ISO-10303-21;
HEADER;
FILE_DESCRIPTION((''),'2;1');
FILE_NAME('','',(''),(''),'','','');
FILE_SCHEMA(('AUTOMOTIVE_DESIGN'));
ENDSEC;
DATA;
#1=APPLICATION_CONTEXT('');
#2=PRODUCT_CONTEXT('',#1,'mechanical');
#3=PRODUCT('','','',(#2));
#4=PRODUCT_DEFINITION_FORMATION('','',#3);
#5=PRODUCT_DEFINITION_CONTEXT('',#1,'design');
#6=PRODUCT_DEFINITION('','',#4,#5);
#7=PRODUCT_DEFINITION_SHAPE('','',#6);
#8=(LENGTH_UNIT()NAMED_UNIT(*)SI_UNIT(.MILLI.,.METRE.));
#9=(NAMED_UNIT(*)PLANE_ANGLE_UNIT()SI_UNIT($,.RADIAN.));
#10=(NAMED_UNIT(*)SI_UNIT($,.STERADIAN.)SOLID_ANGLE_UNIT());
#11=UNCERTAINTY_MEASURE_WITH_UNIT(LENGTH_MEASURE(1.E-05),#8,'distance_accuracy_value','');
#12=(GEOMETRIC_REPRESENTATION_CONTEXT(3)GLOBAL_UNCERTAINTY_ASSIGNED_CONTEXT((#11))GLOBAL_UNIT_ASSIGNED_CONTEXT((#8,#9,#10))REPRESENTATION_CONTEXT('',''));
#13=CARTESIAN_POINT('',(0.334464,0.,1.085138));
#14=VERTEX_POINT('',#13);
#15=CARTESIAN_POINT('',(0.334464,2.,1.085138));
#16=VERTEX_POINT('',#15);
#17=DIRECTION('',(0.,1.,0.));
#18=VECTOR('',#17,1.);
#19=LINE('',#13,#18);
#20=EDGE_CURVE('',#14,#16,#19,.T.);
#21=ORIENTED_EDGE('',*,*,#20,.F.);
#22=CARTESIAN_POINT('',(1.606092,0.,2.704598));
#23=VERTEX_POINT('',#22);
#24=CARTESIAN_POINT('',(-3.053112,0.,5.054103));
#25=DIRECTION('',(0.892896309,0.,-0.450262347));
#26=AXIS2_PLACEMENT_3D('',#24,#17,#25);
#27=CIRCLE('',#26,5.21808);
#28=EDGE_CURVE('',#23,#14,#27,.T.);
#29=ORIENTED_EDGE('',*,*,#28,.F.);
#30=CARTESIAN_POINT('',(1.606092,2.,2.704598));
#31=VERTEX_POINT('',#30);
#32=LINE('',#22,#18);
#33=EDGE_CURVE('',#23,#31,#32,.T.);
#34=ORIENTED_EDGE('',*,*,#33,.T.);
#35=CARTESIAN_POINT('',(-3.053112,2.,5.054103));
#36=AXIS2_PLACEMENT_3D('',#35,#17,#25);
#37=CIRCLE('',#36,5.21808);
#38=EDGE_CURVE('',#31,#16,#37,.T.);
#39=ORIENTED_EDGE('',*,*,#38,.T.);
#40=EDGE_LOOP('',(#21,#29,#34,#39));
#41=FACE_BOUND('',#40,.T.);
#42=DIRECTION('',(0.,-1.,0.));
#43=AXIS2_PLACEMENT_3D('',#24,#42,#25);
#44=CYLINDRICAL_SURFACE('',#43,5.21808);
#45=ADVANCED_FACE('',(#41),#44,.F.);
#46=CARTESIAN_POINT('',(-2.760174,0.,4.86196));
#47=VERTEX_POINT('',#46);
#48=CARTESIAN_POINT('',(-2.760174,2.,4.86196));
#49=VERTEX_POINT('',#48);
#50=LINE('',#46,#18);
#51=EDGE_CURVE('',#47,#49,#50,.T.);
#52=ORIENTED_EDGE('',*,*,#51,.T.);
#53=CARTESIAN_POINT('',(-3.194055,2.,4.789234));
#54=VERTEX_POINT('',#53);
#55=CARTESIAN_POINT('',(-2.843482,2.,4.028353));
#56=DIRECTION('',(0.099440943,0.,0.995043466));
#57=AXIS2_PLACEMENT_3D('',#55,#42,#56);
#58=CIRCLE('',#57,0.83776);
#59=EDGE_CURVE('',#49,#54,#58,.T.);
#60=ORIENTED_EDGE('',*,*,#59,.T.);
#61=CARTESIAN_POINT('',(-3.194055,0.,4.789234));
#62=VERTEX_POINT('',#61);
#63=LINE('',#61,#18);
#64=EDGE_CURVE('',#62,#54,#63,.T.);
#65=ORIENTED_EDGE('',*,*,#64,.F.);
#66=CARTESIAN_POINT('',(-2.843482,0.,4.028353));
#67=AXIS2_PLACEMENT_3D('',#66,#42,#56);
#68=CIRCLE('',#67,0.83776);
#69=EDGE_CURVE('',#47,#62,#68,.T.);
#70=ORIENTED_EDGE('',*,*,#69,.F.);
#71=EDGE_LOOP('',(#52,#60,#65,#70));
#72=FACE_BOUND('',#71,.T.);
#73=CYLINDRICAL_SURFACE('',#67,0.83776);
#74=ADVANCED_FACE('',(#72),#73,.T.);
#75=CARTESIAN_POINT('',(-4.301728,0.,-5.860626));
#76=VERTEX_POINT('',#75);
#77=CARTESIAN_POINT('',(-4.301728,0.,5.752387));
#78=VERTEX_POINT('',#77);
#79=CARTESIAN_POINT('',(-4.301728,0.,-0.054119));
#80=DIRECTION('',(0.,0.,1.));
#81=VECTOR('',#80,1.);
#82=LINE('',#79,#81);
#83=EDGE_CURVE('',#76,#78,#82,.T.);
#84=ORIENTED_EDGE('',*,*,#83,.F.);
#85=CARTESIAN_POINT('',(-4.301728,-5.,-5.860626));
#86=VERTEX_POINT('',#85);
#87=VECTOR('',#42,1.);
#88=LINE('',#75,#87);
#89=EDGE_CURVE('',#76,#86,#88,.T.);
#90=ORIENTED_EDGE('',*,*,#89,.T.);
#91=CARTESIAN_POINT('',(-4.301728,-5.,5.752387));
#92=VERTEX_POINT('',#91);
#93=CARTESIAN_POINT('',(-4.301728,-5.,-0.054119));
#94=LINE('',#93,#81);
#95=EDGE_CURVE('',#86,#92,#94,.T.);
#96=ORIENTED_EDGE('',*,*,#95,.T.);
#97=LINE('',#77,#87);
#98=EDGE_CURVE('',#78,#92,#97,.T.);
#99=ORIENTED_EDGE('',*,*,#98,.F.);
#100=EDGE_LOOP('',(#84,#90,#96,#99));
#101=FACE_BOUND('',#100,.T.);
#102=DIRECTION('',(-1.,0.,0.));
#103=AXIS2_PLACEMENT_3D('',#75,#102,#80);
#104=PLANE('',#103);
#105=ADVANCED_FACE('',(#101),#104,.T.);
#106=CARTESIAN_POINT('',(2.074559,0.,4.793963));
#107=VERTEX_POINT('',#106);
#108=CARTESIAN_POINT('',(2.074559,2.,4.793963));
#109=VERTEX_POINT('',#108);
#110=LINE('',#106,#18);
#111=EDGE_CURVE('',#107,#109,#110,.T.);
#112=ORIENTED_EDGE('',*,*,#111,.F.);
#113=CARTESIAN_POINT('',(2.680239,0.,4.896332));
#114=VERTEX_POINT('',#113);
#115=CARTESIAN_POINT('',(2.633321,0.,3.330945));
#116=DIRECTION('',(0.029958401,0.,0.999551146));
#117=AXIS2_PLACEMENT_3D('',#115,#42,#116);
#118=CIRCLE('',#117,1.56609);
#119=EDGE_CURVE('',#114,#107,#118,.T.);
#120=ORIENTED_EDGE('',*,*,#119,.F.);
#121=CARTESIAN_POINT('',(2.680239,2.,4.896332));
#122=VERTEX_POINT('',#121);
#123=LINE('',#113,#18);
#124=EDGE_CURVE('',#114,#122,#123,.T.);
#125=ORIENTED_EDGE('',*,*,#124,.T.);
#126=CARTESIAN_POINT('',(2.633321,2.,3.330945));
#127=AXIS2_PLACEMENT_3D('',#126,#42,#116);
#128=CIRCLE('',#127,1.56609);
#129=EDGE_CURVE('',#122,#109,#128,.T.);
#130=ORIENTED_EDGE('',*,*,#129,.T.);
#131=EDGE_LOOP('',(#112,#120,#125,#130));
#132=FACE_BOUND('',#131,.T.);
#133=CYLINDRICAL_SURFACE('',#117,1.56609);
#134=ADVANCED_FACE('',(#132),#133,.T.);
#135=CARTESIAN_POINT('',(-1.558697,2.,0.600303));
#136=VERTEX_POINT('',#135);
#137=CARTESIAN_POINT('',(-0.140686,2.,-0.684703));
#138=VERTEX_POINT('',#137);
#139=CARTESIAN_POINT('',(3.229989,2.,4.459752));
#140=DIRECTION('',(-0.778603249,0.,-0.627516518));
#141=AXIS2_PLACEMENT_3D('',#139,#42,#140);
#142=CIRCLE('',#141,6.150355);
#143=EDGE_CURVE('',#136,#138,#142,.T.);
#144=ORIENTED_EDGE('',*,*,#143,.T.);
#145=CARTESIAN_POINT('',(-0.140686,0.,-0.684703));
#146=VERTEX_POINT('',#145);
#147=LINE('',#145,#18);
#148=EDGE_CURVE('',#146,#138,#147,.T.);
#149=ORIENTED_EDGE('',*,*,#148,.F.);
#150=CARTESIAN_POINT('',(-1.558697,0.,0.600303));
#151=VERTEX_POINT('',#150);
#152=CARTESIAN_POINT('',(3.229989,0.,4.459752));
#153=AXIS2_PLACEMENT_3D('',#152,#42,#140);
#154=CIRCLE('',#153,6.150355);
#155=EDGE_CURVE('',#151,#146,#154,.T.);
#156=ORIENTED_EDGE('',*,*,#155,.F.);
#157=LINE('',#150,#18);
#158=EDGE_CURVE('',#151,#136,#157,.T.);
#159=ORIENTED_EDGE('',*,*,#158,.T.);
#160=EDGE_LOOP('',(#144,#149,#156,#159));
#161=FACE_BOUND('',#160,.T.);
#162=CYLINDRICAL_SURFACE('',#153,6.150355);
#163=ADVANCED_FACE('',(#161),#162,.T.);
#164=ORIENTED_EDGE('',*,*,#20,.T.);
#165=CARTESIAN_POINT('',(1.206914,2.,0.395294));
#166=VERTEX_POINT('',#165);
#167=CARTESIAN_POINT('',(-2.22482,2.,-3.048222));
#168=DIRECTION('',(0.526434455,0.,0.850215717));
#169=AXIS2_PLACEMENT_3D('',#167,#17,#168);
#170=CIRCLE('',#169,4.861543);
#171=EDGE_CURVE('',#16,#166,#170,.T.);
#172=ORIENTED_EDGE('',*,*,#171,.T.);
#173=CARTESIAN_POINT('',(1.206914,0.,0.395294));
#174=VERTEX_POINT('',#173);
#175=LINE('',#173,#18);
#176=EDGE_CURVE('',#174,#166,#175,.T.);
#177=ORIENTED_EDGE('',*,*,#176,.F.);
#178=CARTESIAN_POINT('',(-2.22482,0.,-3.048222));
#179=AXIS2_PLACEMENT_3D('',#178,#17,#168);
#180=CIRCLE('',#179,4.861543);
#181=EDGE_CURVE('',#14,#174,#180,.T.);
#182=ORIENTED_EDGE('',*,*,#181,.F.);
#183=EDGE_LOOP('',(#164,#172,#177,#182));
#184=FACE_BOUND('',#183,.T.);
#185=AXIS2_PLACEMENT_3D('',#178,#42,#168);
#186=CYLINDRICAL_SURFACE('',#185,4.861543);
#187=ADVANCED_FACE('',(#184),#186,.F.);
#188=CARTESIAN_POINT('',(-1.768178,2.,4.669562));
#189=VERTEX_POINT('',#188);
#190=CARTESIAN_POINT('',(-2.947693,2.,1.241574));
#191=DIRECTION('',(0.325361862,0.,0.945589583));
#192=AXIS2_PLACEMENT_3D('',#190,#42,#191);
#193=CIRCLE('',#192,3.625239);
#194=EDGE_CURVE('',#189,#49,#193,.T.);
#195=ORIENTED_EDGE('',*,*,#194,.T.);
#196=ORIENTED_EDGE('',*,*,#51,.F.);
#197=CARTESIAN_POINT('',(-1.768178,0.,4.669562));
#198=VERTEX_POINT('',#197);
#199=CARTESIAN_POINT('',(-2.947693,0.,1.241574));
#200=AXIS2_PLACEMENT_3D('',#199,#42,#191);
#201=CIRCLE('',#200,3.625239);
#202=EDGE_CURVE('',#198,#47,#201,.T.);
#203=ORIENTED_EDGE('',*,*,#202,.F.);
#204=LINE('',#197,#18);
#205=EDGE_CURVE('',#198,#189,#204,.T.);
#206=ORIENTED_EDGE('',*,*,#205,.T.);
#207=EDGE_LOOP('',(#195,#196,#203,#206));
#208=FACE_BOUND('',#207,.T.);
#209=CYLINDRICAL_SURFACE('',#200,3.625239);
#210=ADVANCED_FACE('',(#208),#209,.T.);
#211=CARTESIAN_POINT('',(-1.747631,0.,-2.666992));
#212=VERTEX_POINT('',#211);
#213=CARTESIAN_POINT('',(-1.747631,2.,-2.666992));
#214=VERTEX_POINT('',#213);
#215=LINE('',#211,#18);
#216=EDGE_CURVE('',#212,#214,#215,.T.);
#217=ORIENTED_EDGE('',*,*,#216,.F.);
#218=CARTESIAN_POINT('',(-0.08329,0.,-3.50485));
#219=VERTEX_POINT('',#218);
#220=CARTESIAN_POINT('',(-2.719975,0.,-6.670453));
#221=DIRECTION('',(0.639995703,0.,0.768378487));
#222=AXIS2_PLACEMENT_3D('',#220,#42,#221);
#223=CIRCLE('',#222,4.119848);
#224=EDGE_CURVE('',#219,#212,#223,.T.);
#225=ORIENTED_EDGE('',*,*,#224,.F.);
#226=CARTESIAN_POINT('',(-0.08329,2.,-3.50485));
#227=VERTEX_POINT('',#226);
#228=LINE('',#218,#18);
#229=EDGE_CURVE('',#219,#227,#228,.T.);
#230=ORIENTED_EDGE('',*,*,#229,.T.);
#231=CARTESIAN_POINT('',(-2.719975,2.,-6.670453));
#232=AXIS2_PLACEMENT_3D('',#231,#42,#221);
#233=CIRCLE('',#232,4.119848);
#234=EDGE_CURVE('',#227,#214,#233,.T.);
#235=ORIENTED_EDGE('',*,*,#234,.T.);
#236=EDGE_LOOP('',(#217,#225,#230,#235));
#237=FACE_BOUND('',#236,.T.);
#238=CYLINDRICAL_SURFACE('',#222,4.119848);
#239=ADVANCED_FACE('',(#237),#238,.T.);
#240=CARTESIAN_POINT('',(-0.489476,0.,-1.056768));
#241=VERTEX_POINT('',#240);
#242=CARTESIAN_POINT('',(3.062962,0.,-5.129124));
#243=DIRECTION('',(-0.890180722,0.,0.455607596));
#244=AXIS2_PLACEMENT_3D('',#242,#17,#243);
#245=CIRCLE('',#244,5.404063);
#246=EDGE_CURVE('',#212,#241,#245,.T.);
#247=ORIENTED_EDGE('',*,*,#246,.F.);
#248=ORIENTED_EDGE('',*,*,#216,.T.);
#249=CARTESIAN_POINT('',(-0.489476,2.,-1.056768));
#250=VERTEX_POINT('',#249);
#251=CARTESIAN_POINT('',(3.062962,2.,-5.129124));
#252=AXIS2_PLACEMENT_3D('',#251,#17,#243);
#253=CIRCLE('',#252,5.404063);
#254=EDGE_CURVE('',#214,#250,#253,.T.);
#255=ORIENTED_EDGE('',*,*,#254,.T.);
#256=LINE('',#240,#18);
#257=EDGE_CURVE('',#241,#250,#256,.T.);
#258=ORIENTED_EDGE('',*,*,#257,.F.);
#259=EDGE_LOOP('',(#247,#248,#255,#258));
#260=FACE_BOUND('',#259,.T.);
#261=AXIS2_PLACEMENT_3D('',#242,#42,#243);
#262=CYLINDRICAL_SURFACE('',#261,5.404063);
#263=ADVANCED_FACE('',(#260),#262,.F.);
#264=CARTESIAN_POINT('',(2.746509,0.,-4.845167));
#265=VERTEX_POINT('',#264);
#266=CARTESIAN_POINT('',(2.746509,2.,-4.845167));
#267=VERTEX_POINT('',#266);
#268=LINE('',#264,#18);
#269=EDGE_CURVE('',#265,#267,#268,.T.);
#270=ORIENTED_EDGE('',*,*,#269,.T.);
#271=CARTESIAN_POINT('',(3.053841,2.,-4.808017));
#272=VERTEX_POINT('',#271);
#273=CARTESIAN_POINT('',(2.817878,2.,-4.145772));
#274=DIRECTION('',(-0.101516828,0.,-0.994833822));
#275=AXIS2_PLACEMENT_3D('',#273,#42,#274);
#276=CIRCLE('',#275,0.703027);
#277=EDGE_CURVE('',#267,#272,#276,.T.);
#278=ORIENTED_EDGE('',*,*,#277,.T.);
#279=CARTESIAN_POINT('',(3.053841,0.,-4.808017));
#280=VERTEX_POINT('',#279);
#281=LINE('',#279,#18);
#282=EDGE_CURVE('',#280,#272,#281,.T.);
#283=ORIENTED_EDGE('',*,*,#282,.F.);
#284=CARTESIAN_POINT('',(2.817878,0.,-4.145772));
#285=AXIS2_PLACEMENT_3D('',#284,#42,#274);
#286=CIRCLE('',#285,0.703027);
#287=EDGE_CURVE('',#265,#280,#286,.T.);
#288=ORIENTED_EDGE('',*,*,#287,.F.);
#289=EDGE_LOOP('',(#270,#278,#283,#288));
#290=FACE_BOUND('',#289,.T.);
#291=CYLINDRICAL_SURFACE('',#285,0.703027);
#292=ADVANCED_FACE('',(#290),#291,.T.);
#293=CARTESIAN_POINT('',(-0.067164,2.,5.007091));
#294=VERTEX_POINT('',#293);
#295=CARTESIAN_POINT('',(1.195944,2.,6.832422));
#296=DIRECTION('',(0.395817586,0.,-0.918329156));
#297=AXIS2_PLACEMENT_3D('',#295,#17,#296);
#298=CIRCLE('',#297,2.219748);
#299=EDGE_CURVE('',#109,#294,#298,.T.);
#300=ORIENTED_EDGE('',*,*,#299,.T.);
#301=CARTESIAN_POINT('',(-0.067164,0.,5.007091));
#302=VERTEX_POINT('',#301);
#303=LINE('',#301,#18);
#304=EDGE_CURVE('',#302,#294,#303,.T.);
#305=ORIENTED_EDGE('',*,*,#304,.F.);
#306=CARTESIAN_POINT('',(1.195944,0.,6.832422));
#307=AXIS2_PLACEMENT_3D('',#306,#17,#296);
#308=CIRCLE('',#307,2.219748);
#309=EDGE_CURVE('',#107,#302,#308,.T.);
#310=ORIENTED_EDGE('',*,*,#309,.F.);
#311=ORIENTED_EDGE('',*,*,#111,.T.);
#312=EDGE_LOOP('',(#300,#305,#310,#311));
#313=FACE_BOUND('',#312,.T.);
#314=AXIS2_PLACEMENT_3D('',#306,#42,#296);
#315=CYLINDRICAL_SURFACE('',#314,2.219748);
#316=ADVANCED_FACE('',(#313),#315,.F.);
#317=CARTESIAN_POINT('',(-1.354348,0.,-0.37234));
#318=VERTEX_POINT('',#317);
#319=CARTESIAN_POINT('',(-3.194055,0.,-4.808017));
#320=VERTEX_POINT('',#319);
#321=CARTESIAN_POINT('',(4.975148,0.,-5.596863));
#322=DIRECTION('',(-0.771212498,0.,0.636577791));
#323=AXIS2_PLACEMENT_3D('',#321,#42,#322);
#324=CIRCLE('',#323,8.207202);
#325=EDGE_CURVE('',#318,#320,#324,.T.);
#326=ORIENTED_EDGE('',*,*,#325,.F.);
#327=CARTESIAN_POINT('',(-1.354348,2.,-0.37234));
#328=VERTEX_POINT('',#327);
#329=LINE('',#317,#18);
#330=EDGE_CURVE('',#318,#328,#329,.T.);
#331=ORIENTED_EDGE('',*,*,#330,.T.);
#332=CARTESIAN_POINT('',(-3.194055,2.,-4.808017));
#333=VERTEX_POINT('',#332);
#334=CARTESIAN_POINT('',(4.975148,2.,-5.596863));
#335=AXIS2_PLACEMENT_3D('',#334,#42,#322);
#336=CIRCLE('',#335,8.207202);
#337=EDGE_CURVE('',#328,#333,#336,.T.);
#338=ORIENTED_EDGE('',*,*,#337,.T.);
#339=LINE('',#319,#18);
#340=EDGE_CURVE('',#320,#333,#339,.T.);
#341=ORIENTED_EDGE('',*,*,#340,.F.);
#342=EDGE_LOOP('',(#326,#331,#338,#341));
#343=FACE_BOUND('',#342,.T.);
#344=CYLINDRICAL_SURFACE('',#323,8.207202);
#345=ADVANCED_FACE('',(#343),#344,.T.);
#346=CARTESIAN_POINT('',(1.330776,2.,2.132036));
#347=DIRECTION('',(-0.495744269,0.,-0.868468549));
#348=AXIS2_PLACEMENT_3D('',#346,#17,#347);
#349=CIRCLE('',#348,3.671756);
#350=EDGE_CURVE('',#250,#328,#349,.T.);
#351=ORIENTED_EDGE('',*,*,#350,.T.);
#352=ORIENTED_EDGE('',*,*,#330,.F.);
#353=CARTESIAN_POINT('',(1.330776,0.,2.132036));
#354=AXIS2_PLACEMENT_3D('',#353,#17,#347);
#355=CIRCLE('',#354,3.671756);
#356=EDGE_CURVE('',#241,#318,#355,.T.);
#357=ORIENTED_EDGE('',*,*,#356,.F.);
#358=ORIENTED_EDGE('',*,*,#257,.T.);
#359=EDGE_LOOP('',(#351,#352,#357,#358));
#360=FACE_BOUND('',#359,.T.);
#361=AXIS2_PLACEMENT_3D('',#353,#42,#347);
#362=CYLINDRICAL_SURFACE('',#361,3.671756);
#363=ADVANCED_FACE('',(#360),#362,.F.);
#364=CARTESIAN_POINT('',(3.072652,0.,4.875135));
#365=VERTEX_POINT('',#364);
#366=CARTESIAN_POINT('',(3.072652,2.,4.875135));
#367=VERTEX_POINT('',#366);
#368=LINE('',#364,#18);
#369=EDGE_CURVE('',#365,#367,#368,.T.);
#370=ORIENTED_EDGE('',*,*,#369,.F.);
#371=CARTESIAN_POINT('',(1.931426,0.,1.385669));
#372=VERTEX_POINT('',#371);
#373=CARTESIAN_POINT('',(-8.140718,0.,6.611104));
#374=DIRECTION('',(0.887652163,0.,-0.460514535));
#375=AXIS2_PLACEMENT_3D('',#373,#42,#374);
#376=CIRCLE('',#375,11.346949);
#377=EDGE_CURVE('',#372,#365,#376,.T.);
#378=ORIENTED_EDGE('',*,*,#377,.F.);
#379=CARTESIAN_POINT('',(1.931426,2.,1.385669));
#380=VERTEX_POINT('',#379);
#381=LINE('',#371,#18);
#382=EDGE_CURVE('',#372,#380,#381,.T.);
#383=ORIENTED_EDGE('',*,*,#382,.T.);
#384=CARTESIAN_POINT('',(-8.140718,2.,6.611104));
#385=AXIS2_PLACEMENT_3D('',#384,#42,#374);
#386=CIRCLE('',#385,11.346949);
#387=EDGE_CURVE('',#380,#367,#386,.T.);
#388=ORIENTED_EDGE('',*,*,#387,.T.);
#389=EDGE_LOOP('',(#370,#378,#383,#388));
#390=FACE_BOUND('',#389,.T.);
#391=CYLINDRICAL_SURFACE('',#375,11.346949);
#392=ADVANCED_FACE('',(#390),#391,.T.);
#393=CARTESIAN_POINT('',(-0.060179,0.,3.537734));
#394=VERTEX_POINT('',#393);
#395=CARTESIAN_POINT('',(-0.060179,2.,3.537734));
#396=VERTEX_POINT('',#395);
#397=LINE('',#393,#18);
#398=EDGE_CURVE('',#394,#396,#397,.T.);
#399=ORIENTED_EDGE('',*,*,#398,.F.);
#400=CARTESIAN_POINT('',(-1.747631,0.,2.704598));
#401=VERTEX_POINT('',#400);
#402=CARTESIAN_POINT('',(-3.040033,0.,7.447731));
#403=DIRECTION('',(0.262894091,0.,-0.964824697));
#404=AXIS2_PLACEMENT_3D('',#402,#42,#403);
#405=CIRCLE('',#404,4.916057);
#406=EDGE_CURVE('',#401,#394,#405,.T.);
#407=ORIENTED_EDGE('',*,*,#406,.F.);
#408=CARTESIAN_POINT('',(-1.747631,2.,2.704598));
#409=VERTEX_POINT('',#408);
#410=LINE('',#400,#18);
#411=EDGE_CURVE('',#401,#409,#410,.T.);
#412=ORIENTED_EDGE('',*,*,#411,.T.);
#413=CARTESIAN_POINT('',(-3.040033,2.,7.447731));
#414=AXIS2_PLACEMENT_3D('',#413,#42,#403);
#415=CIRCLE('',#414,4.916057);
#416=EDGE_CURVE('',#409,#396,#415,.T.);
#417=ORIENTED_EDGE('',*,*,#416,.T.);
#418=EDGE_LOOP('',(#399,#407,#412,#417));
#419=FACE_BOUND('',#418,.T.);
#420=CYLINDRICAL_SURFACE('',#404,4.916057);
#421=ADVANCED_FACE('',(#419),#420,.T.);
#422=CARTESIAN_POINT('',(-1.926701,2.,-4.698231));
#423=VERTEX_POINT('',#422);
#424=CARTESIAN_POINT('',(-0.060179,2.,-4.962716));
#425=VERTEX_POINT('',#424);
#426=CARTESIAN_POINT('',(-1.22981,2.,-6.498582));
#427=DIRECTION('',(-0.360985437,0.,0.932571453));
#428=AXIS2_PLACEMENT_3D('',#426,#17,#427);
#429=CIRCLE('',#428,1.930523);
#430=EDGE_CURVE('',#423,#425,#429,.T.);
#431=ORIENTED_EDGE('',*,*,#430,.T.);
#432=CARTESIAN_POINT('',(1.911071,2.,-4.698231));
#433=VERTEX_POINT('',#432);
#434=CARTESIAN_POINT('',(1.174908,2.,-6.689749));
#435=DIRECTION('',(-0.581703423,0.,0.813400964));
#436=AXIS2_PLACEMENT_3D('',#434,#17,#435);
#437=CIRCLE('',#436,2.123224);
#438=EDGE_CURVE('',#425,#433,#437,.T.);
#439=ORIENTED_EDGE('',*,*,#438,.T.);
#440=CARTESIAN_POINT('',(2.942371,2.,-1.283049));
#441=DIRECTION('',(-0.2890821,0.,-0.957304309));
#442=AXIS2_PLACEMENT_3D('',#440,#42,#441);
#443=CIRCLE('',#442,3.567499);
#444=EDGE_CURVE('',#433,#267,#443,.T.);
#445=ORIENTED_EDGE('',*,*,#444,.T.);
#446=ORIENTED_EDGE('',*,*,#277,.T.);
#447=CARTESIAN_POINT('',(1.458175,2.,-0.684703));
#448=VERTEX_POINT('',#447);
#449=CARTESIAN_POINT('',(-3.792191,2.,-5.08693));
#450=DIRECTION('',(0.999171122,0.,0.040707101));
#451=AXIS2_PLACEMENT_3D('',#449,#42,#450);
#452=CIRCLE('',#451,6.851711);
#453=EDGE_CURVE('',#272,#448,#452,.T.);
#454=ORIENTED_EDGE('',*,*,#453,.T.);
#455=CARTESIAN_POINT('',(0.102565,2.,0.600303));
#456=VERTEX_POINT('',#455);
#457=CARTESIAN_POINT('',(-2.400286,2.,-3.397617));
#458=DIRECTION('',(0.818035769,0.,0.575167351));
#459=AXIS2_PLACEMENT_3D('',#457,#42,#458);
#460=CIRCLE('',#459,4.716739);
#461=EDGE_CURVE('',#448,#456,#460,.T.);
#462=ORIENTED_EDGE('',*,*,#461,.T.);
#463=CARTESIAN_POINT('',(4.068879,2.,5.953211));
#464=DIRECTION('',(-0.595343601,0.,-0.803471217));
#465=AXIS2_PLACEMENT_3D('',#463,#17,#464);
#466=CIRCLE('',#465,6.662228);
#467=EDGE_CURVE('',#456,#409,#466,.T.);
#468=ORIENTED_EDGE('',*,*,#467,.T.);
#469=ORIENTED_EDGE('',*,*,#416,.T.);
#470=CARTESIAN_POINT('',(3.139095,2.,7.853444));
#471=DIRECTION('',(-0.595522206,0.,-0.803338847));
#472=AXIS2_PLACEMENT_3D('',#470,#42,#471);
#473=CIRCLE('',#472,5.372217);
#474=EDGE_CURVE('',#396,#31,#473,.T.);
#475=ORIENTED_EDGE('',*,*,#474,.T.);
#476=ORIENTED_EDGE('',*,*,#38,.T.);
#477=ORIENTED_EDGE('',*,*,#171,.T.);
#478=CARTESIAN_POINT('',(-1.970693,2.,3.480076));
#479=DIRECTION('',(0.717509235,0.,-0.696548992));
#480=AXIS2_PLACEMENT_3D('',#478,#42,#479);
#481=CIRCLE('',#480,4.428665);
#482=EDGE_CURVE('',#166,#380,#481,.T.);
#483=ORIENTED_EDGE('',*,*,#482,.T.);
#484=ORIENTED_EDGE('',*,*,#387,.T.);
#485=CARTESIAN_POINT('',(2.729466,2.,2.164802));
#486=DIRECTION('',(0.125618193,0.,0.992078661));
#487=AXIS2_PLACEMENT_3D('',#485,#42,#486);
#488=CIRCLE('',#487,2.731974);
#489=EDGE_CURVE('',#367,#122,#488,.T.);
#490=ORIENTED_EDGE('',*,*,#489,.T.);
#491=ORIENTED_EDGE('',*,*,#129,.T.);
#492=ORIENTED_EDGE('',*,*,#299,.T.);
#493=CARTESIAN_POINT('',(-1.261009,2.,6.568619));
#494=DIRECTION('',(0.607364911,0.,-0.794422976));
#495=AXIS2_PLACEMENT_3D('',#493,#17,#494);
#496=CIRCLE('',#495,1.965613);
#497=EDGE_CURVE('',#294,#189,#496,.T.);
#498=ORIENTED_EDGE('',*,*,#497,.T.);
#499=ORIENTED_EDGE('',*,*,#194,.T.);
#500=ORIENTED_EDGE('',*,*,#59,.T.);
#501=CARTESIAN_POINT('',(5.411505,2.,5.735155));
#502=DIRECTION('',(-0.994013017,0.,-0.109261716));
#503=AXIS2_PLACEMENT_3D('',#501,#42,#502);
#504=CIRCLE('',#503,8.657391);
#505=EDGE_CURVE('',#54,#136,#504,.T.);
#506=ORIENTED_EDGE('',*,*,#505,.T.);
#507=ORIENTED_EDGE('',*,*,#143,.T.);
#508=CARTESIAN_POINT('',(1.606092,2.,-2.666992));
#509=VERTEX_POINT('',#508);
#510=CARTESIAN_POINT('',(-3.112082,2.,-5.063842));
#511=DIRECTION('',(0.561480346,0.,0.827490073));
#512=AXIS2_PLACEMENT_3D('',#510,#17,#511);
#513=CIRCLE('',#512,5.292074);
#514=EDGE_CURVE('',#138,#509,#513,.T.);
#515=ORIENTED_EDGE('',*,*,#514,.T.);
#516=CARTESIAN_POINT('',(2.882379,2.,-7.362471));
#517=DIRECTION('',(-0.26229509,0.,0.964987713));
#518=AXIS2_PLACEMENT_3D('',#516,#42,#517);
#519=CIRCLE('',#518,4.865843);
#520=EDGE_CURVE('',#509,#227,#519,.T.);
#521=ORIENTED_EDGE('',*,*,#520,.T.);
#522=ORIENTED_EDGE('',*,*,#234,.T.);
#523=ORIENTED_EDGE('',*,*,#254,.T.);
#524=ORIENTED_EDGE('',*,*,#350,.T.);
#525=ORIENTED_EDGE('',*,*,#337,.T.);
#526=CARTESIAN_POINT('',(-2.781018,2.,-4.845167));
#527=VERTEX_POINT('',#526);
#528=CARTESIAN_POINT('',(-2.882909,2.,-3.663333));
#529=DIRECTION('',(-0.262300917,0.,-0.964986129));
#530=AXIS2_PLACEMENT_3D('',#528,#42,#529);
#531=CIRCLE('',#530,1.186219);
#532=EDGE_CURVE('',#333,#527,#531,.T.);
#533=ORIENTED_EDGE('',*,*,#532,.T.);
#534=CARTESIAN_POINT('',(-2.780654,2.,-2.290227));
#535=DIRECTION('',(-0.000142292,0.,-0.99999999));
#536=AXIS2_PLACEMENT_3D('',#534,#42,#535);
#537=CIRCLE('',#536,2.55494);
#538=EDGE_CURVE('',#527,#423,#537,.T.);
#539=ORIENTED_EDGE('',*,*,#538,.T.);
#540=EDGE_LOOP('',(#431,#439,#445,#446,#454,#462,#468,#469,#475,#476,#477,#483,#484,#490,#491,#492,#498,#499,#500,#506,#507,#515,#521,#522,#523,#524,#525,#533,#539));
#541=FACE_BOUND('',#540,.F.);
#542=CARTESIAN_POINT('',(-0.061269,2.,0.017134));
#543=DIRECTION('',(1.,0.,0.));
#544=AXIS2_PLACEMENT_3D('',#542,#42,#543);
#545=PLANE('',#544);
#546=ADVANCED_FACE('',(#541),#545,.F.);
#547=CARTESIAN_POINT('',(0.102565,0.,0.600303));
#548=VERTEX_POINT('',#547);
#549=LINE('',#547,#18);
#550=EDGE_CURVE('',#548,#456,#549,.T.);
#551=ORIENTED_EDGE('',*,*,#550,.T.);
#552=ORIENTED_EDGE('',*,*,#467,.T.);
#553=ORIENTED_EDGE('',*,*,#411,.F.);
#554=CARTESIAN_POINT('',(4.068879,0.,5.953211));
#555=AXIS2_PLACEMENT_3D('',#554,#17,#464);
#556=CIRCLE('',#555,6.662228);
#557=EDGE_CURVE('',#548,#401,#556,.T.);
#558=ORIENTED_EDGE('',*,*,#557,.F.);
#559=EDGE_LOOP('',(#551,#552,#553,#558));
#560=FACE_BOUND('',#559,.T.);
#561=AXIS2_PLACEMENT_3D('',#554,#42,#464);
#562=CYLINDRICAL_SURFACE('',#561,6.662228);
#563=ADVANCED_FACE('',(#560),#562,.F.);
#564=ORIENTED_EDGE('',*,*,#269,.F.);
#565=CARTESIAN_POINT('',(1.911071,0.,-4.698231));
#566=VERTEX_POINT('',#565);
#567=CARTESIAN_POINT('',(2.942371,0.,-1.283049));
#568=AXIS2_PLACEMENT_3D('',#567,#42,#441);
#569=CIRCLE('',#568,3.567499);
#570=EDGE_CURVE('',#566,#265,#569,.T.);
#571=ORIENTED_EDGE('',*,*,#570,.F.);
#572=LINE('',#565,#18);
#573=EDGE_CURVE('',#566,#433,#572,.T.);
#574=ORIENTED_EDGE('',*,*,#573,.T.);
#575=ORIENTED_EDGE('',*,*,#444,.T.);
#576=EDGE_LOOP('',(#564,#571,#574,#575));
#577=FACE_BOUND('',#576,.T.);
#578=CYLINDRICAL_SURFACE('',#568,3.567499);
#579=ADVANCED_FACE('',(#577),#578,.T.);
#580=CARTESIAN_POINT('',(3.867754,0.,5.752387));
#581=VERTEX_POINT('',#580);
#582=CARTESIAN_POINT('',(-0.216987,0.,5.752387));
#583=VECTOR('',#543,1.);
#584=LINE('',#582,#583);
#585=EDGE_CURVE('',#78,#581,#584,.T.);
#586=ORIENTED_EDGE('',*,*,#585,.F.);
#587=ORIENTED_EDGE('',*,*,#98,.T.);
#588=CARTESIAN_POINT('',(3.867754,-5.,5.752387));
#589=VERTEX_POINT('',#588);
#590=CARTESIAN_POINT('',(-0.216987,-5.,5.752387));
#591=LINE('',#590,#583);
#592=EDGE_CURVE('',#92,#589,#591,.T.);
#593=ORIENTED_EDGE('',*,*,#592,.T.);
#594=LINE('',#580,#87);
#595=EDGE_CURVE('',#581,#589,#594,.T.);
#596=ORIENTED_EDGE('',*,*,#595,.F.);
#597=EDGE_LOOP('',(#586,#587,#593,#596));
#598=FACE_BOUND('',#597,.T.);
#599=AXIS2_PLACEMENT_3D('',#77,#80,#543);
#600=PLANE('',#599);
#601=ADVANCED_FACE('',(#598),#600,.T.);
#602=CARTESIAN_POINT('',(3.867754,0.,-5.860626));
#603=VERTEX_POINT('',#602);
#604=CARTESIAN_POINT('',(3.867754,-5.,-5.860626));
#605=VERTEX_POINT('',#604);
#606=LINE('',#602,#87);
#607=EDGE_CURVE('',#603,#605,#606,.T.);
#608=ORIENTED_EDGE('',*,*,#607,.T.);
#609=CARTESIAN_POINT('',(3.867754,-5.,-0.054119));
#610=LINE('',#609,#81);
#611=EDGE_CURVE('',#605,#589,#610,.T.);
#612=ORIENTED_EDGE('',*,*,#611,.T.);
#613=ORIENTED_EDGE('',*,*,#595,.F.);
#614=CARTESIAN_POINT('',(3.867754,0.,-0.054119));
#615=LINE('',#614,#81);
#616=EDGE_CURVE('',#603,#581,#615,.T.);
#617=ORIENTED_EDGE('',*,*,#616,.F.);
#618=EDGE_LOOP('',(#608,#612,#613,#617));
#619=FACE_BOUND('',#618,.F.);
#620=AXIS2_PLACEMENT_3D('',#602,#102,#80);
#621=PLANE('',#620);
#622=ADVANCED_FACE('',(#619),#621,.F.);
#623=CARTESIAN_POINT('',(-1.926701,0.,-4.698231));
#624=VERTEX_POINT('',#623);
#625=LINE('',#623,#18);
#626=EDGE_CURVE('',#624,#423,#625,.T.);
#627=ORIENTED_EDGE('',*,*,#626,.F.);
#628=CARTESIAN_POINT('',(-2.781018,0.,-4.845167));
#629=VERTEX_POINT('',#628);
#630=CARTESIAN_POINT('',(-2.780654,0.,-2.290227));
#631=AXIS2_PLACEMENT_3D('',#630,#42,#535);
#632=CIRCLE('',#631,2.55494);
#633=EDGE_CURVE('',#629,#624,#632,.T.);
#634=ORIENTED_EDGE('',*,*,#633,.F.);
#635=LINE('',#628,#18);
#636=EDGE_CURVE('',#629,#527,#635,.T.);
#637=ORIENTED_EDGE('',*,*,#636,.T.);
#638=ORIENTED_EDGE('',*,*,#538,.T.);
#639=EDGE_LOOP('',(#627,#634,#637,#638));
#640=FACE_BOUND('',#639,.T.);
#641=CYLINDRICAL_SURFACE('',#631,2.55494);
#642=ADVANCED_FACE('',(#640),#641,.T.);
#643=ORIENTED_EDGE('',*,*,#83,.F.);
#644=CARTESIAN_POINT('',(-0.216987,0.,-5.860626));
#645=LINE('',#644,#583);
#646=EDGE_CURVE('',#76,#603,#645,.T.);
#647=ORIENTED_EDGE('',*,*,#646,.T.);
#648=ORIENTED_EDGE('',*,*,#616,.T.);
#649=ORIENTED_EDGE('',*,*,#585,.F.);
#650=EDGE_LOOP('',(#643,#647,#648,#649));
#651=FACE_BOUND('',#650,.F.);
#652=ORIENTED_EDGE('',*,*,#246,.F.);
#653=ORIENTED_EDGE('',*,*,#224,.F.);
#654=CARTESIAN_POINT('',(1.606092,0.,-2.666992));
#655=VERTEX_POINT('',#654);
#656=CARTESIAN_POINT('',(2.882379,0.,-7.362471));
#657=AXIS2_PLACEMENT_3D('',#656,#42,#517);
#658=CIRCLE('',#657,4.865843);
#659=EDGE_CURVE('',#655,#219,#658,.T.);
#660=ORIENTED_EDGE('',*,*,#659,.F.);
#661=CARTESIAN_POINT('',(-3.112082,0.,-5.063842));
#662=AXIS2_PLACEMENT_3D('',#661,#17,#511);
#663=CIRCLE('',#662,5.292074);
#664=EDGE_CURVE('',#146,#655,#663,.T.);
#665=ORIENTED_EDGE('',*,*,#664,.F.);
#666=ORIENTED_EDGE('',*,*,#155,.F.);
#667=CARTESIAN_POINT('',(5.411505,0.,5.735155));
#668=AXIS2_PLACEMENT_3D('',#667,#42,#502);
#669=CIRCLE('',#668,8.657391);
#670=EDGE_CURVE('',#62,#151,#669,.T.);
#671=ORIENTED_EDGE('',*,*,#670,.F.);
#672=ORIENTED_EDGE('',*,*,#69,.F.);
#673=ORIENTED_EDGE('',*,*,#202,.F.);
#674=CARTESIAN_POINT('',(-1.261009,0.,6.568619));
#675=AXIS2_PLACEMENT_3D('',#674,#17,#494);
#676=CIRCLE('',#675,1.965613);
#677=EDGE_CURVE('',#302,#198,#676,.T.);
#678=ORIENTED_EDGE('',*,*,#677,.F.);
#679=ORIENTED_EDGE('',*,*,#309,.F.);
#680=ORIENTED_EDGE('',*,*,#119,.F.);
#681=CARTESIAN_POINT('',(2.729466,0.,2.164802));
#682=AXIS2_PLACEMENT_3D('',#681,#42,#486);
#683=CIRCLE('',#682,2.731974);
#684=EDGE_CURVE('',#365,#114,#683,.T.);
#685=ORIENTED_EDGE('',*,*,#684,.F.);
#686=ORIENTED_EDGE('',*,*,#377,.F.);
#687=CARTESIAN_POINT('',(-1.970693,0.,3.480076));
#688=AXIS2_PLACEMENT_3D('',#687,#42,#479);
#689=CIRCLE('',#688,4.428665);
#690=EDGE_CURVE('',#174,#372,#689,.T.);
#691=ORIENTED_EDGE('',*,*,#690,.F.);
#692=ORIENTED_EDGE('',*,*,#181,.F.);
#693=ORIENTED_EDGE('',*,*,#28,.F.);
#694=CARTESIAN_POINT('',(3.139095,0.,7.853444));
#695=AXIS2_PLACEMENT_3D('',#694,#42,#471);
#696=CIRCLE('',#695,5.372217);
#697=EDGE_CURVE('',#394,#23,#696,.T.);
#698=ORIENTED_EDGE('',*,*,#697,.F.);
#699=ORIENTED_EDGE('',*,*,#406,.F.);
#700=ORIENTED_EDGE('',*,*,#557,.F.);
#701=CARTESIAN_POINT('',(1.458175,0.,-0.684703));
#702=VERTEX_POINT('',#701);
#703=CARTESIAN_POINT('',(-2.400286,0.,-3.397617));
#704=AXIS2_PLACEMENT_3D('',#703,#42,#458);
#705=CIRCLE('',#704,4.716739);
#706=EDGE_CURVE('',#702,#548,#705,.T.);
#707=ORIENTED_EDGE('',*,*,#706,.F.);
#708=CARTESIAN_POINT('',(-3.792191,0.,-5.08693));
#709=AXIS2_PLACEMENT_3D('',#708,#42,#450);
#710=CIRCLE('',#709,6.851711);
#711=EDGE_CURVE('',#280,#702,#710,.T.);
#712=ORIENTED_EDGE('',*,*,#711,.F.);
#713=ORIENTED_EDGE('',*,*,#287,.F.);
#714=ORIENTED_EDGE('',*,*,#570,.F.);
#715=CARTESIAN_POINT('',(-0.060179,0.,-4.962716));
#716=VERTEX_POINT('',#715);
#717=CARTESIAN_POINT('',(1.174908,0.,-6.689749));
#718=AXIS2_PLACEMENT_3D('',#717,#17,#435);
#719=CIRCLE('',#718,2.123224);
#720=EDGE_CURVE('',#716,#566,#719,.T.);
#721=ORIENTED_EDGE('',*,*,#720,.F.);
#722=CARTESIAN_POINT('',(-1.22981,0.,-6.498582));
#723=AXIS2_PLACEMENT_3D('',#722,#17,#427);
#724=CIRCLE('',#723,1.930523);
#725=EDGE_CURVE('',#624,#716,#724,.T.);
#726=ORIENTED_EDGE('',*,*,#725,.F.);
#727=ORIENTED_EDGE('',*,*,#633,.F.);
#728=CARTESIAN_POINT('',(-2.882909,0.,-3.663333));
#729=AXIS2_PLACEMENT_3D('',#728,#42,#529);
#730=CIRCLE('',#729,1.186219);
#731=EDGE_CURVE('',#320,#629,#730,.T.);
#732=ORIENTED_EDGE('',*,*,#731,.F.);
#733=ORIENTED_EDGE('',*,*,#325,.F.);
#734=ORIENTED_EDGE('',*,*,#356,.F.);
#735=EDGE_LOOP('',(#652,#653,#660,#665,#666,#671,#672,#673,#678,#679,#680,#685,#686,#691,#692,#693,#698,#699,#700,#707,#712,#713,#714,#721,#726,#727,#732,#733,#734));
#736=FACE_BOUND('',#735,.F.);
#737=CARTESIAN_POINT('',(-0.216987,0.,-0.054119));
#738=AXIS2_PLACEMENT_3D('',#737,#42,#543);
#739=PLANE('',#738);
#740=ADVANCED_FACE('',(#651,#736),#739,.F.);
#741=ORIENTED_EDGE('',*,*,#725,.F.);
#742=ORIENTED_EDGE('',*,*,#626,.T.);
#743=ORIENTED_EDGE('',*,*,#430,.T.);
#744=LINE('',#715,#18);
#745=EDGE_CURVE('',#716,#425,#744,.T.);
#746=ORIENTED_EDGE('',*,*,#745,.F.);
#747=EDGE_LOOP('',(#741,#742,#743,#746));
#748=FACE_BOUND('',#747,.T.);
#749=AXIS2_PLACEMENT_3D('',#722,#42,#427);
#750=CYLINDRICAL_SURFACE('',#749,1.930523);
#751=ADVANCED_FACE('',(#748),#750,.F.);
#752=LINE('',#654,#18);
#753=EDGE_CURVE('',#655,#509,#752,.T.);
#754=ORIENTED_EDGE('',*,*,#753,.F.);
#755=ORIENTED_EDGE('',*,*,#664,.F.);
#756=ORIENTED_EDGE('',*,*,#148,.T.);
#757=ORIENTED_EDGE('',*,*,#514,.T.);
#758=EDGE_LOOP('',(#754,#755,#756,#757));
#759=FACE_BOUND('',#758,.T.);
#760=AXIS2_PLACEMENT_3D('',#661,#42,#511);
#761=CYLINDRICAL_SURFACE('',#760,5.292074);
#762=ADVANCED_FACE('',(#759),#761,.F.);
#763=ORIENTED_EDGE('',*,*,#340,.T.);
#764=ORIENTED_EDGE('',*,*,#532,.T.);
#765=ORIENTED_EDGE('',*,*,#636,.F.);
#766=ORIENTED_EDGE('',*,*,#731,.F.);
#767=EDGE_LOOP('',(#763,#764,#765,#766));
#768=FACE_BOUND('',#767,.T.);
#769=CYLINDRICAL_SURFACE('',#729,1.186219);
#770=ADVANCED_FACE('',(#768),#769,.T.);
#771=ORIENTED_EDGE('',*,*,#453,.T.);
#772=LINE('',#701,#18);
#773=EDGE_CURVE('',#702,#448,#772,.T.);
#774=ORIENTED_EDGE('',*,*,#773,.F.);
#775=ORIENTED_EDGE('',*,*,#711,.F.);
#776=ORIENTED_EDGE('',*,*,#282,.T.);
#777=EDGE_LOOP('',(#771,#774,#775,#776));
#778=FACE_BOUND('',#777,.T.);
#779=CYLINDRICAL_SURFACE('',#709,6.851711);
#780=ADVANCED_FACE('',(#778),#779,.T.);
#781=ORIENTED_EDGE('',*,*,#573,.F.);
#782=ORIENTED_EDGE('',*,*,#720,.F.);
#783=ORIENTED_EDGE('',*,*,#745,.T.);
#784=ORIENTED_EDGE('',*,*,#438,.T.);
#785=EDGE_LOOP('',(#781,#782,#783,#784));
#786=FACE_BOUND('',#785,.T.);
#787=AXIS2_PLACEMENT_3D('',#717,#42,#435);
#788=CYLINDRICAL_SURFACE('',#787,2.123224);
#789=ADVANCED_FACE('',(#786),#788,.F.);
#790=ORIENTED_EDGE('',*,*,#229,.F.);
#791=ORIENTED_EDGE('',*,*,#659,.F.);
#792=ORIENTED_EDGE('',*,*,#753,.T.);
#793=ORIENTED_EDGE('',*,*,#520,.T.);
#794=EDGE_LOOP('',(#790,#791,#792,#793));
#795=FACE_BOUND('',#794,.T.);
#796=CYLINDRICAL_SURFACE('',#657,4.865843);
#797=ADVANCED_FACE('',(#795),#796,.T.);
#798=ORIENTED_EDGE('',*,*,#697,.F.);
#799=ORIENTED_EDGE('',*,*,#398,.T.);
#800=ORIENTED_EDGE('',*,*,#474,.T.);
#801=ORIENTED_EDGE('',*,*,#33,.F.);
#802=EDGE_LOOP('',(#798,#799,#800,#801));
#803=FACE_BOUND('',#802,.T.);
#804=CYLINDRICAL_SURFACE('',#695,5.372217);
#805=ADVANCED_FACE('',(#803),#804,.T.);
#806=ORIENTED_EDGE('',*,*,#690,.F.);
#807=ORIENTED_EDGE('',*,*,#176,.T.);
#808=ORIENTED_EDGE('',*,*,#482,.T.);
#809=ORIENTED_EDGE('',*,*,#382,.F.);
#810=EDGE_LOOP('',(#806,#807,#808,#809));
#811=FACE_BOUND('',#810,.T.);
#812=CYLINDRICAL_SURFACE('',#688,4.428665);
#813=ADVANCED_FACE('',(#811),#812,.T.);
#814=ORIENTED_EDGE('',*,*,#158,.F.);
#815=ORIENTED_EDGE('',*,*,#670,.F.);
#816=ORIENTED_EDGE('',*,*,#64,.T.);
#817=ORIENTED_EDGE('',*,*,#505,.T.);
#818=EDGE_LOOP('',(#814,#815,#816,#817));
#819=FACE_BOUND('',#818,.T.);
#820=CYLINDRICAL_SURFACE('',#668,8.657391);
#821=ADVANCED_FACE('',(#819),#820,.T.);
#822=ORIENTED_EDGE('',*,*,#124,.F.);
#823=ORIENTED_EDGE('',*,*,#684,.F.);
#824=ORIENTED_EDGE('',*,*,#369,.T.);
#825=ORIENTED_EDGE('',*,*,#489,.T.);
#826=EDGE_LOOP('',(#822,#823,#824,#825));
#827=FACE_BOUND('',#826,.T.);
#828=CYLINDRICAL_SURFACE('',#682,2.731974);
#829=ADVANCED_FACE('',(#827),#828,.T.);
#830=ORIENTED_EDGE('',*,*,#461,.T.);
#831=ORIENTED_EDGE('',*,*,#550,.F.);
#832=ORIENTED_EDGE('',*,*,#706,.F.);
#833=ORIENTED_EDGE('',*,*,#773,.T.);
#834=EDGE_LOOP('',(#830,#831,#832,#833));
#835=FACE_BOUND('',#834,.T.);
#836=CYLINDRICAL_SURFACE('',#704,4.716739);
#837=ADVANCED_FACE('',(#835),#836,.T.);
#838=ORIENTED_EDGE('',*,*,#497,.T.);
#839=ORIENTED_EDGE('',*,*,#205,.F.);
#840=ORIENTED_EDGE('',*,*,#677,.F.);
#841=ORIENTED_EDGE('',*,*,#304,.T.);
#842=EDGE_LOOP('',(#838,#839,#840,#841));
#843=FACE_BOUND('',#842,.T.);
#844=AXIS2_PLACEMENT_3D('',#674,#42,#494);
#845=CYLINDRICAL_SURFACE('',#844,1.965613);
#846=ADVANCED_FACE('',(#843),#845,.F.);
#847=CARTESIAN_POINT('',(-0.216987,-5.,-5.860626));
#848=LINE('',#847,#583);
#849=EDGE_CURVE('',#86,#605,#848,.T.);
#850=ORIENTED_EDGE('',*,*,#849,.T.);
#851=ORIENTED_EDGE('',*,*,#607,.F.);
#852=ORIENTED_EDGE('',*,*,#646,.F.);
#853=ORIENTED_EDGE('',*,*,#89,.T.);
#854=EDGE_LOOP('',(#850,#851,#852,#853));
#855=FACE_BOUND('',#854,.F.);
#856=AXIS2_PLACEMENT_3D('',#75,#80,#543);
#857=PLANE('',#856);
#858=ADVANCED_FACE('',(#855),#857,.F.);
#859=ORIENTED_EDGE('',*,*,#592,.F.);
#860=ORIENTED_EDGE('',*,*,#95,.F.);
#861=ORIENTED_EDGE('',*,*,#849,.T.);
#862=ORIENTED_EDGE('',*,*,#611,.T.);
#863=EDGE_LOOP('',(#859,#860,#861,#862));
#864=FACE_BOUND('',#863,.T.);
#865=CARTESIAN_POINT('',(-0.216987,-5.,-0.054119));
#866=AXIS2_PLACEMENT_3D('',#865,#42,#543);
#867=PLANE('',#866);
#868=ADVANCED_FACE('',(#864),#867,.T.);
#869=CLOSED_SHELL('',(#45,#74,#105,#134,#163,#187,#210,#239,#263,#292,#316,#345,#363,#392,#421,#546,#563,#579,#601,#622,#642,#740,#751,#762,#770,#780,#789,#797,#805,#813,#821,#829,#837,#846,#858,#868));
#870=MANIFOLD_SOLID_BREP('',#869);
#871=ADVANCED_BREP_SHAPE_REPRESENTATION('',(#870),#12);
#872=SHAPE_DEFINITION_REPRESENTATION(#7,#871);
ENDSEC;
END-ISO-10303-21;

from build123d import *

# Parameters (mm, degrees)
F1_DEPTH = 2
F0_W     = 8.1694817636
F0_H     = 11.6130132228
F2_DEPTH = 5


with BuildPart() as f1:
    # F0 (on Front) → F1 (new body)
    with BuildSketch(Plane.XZ):
        with BuildLine():
            ThreePointArc((2.0745592192, 4.7939633951), (0.9761382847, 4.6235844423), (-0.0671644666, 5.0070905127))
            ThreePointArc((-0.0671644666, 5.0070905127), (-0.8784360137, 4.6405956483), (-1.7681780737, 4.6695624478))
            ThreePointArc((-1.7681780737, 4.6695624478), (-2.2574396576, 4.800493813), (-2.7601739857, 4.8619601876))
            ThreePointArc((-2.7601739857, 4.8619601876), (-2.9819736355, 4.8545860582), (-3.1940550543, 4.7892336734))
            ThreePointArc((-3.1940550543, 4.7892336734), (-2.6531015818, 2.5867346288), (-1.5586973168, 0.6003026501))
            ThreePointArc((-1.5586973168, 0.6003026501), (-0.899975173, -0.0976882802), (-0.1406859956, -0.6847028853))
            ThreePointArc((-0.1406859956, -0.6847028853), (0.8584014623, -1.565082943), (1.606091857, -2.6669921353))
            ThreePointArc((1.606091857, -2.6669921353), (0.7204240657, -3.0032988166), (-0.0832898513, -3.5048499703))
            ThreePointArc((-0.0832898513, -3.5048499703), (-0.8674701353, -2.9905919725), (-1.7476310022, -2.6669921353))
            ThreePointArc((-1.7476310022, -2.6669921353), (-1.1953566595, -1.8018699169), (-0.4894761951, -1.0567684658))
            ThreePointArc((-0.4894761951, -1.0567684658), (-0.947757472, -0.7472134604), (-1.3543482637, -0.3723402042))
            ThreePointArc((-1.3543482637, -0.3723402042), (-2.6058728778, -2.4526172564), (-3.1940550543, -4.8080170527))
            ThreePointArc((-3.1940550543, -4.8080170527), (-2.9891724287, -4.8447819272), (-2.7810176834, -4.8451670446))
            ThreePointArc((-2.7810176834, -4.8451670446), (-2.3475821057, -4.8081959008), (-1.9267009338, -4.698230885))
            ThreePointArc((-1.9267009338, -4.698230885), (-0.9589614264, -4.5871526974), (-0.0601788415, -4.9627162516))
            ThreePointArc((-0.0601788415, -4.9627162516), (0.8925619892, -4.5853815797), (1.9110714784, -4.698230885))
            ThreePointArc((1.9110714784, -4.698230885), (2.3244075631, -4.7966180699), (2.7465091553, -4.8451670446))
            ThreePointArc((2.7465091553, -4.8451670446), (2.9022453839, -4.8437183941), (3.0538411811, -4.8080170527))
            ThreePointArc((3.0538411811, -4.8080170527), (2.5977340123, -2.6141166836), (1.4581748983, -0.6847028853))
            ThreePointArc((1.4581748983, -0.6847028853), (0.844614848, 0.0255748016), (0.1025648307, 0.6003026501))
            ThreePointArc((0.1025648307, 0.6003026501), (-0.9344126252, 1.5540806838), (-1.7476310022, 2.7045982424))
            ThreePointArc((-1.7476310022, 2.7045982424), (-0.863666357, 3.0396657594), (-0.0601788415, 3.5377335735))
            ThreePointArc((-0.0601788415, 3.5377335735), (0.7365671742, 3.0483872393), (1.606091857, 2.7045982424))
            ThreePointArc((1.606091857, 2.7045982424), (1.0509505262, 1.8315226419), (0.3344639845, 1.0851380648))
            ThreePointArc((0.3344639845, 1.0851380648), (0.7904820411, 0.7652480559), (1.2069143122, 0.3952936677))
            ThreePointArc((1.2069143122, 0.3952936677), (1.6036378384, 0.865266534), (1.9314256497, 1.3856694568))
            ThreePointArc((1.9314256497, 1.3856694568), (2.6441028172, 3.083940128), (3.0726515688, 4.8751346973))
            ThreePointArc((3.0726515688, 4.8751346973), (2.8768268251, 4.8927984193), (2.680238802, 4.8963320442))
            ThreePointArc((2.680238802, 4.8963320442), (2.3723307757, 4.8751346973), (2.0745592192, 4.7939633951))
        make_face()
    extrude(amount=-F1_DEPTH)

    # F0 (on Front) + F1_face (on face) → F2 (join)
    with BuildSketch(Plane.XZ):
        with Locations((-0.2169868676, -0.0541191548)):
            Rectangle(F0_W, F0_H)
        with BuildLine():
            ThreePointArc((-1.7681780737, 4.6695624478), (-0.8784360137, 4.6405956483), (-0.0671644666, 5.0070905127))
            ThreePointArc((-0.0671644666, 5.0070905127), (0.9761382847, 4.6235844423), (2.0745592192, 4.7939633951))
            ThreePointArc((2.0745592192, 4.7939633951), (2.3723307757, 4.8751346973), (2.680238802, 4.8963320442))
            ThreePointArc((2.680238802, 4.8963320442), (2.8768268251, 4.8927984193), (3.0726515688, 4.8751346973))
            ThreePointArc((3.0726515688, 4.8751346973), (2.6441028172, 3.083940128), (1.9314256497, 1.3856694568))
            ThreePointArc((1.9314256497, 1.3856694568), (1.6036378384, 0.865266534), (1.2069143122, 0.3952936677))
            ThreePointArc((1.2069143122, 0.3952936677), (0.7904820411, 0.7652480559), (0.3344639845, 1.0851380648))
            ThreePointArc((0.3344639845, 1.0851380648), (1.0509505262, 1.8315226419), (1.606091857, 2.7045982424))
            ThreePointArc((1.606091857, 2.7045982424), (0.7365671742, 3.0483872393), (-0.0601788415, 3.5377335735))
            ThreePointArc((-0.0601788415, 3.5377335735), (-0.863666357, 3.0396657594), (-1.7476310022, 2.7045982424))
            ThreePointArc((-1.7476310022, 2.7045982424), (-0.9344126252, 1.5540806838), (0.1025648307, 0.6003026501))
            ThreePointArc((0.1025648307, 0.6003026501), (0.844614848, 0.0255748016), (1.4581748983, -0.6847028853))
            ThreePointArc((1.4581748983, -0.6847028853), (2.5977340123, -2.6141166836), (3.0538411811, -4.8080170527))
            ThreePointArc((3.0538411811, -4.8080170527), (2.9022453839, -4.8437183941), (2.7465091553, -4.8451670446))
            ThreePointArc((2.7465091553, -4.8451670446), (2.3244075631, -4.7966180699), (1.9110714784, -4.698230885))
            ThreePointArc((1.9110714784, -4.698230885), (0.8925619892, -4.5853815797), (-0.0601788415, -4.9627162516))
            ThreePointArc((-0.0601788415, -4.9627162516), (-0.9589614264, -4.5871526974), (-1.9267009338, -4.698230885))
            ThreePointArc((-1.9267009338, -4.698230885), (-2.3475821057, -4.8081959008), (-2.7810176834, -4.8451670446))
            ThreePointArc((-2.7810176834, -4.8451670446), (-2.9891724287, -4.8447819272), (-3.1940550543, -4.8080170527))
            ThreePointArc((-3.1940550543, -4.8080170527), (-2.6058728778, -2.4526172564), (-1.3543482637, -0.3723402042))
            ThreePointArc((-1.3543482637, -0.3723402042), (-0.947757472, -0.7472134604), (-0.4894761951, -1.0567684658))
            ThreePointArc((-0.4894761951, -1.0567684658), (-1.1953566595, -1.8018699169), (-1.7476310022, -2.6669921353))
            ThreePointArc((-1.7476310022, -2.6669921353), (-0.8674701353, -2.9905919725), (-0.0832898513, -3.5048499703))
            ThreePointArc((-0.0832898513, -3.5048499703), (0.7204240657, -3.0032988166), (1.606091857, -2.6669921353))
            ThreePointArc((1.606091857, -2.6669921353), (0.8584014623, -1.565082943), (-0.1406859956, -0.6847028853))
            ThreePointArc((-0.1406859956, -0.6847028853), (-0.899975173, -0.0976882802), (-1.5586973168, 0.6003026501))
            ThreePointArc((-1.5586973168, 0.6003026501), (-2.6531015818, 2.5867346288), (-3.1940550543, 4.7892336734))
            ThreePointArc((-3.1940550543, 4.7892336734), (-2.9819736355, 4.8545860582), (-2.7601739857, 4.8619601876))
            ThreePointArc((-2.7601739857, 4.8619601876), (-2.2574396576, 4.800493813), (-1.7681780737, 4.6695624478))
        make_face(mode=Mode.SUBTRACT)
        with BuildLine():
            ThreePointArc((2.0745592192, 4.7939633951), (0.9761382847, 4.6235844423), (-0.0671644666, 5.0070905127))
            ThreePointArc((-0.0671644666, 5.0070905127), (-0.8784360137, 4.6405956483), (-1.7681780737, 4.6695624478))
            ThreePointArc((-1.7681780737, 4.6695624478), (-2.2574396576, 4.800493813), (-2.7601739857, 4.8619601876))
            ThreePointArc((-2.7601739857, 4.8619601876), (-2.9819736355, 4.8545860582), (-3.1940550543, 4.7892336734))
            ThreePointArc((-3.1940550543, 4.7892336734), (-2.6531015818, 2.5867346288), (-1.5586973168, 0.6003026501))
            ThreePointArc((-1.5586973168, 0.6003026501), (-0.899975173, -0.0976882802), (-0.1406859956, -0.6847028853))
            ThreePointArc((-0.1406859956, -0.6847028853), (0.8584014623, -1.565082943), (1.606091857, -2.6669921353))
            ThreePointArc((1.606091857, -2.6669921353), (0.7204240657, -3.0032988166), (-0.0832898513, -3.5048499703))
            ThreePointArc((-0.0832898513, -3.5048499703), (-0.8674701353, -2.9905919725), (-1.7476310022, -2.6669921353))
            ThreePointArc((-1.7476310022, -2.6669921353), (-1.1953566595, -1.8018699169), (-0.4894761951, -1.0567684658))
            ThreePointArc((-0.4894761951, -1.0567684658), (-0.947757472, -0.7472134604), (-1.3543482637, -0.3723402042))
            ThreePointArc((-1.3543482637, -0.3723402042), (-2.6058728778, -2.4526172564), (-3.1940550543, -4.8080170527))
            ThreePointArc((-3.1940550543, -4.8080170527), (-2.9891724287, -4.8447819272), (-2.7810176834, -4.8451670446))
            ThreePointArc((-2.7810176834, -4.8451670446), (-2.3475821057, -4.8081959008), (-1.9267009338, -4.698230885))
            ThreePointArc((-1.9267009338, -4.698230885), (-0.9589614264, -4.5871526974), (-0.0601788415, -4.9627162516))
            ThreePointArc((-0.0601788415, -4.9627162516), (0.8925619892, -4.5853815797), (1.9110714784, -4.698230885))
            ThreePointArc((1.9110714784, -4.698230885), (2.3244075631, -4.7966180699), (2.7465091553, -4.8451670446))
            ThreePointArc((2.7465091553, -4.8451670446), (2.9022453839, -4.8437183941), (3.0538411811, -4.8080170527))
            ThreePointArc((3.0538411811, -4.8080170527), (2.5977340123, -2.6141166836), (1.4581748983, -0.6847028853))
            ThreePointArc((1.4581748983, -0.6847028853), (0.844614848, 0.0255748016), (0.1025648307, 0.6003026501))
            ThreePointArc((0.1025648307, 0.6003026501), (-0.9344126252, 1.5540806838), (-1.7476310022, 2.7045982424))
            ThreePointArc((-1.7476310022, 2.7045982424), (-0.863666357, 3.0396657594), (-0.0601788415, 3.5377335735))
            ThreePointArc((-0.0601788415, 3.5377335735), (0.7365671742, 3.0483872393), (1.606091857, 2.7045982424))
            ThreePointArc((1.606091857, 2.7045982424), (1.0509505262, 1.8315226419), (0.3344639845, 1.0851380648))
            ThreePointArc((0.3344639845, 1.0851380648), (0.7904820411, 0.7652480559), (1.2069143122, 0.3952936677))
            ThreePointArc((1.2069143122, 0.3952936677), (1.6036378384, 0.865266534), (1.9314256497, 1.3856694568))
            ThreePointArc((1.9314256497, 1.3856694568), (2.6441028172, 3.083940128), (3.0726515688, 4.8751346973))
            ThreePointArc((3.0726515688, 4.8751346973), (2.8768268251, 4.8927984193), (2.680238802, 4.8963320442))
            ThreePointArc((2.680238802, 4.8963320442), (2.3723307757, 4.8751346973), (2.0745592192, 4.7939633951))
        make_face()
    with BuildSketch(Plane(origin=(-0.0652834318, 2, -5.64561e-05), x_dir=(1, 0, 0), z_dir=(0, 1, 0))):
        with BuildLine():
            ThreePointArc((2.7455222338, -4.8963885003), (2.9421102569, -4.8928548754), (3.1379350006, -4.8751911534))
            ThreePointArc((3.1379350006, -4.8751911534), (2.7093862491, -3.0839965841), (1.9967090815, -1.3857259129))
            ThreePointArc((1.9967090815, -1.3857259129), (1.6689212703, -0.8653229901), (1.2721977441, -0.3953501238))
            ThreePointArc((1.2721977441, -0.3953501238), (0.8557654729, -0.765304512), (0.3997474163, -1.0851945209))
            ThreePointArc((0.3997474163, -1.0851945209), (1.1162339581, -1.831579098), (1.6713752888, -2.7046546985))
            ThreePointArc((1.6713752888, -2.7046546985), (0.801850606, -3.0484436954), (0.0051045903, -3.5377900296))
            ThreePointArc((0.0051045903, -3.5377900296), (-0.7983829252, -3.0397222155), (-1.6823475704, -2.7046546985))
            ThreePointArc((-1.6823475704, -2.7046546985), (-0.8691291933, -1.5541371399), (0.1678482626, -0.6003591062))
            ThreePointArc((0.1678482626, -0.6003591062), (0.9098982798, -0.0256312577), (1.5234583301, 0.6846464292))
            ThreePointArc((1.5234583301, 0.6846464292), (2.6630174442, 2.6140602274), (3.1191246129, 4.8079605966))
            ThreePointArc((3.1191246129, 4.8079605966), (2.9675288158, 4.843661938), (2.8117925871, 4.8451105884))
            ThreePointArc((2.8117925871, 4.8451105884), (2.3896909949, 4.7965616138), (1.9763549102, 4.6981744289))
            ThreePointArc((1.9763549102, 4.6981744289), (0.9578454211, 4.5853251236), (0.0051045903, 4.9626597955))
            ThreePointArc((0.0051045903, 4.9626597955), (-0.8936779945, 4.5870962413), (-1.861417502, 4.6981744289))
            ThreePointArc((-1.861417502, 4.6981744289), (-2.2822986738, 4.8081394447), (-2.7157342516, 4.8451105884))
            ThreePointArc((-2.7157342516, 4.8451105884), (-2.9238889969, 4.8447254711), (-3.1287716225, 4.8079605966))
            ThreePointArc((-3.1287716225, 4.8079605966), (-2.540589446, 2.4525608002), (-1.2890648319, 0.3722837481))
            ThreePointArc((-1.2890648319, 0.3722837481), (-0.8824740402, 0.7471570043), (-0.4241927632, 1.0567120097))
            ThreePointArc((-0.4241927632, 1.0567120097), (-1.1300732277, 1.8018134607), (-1.6823475704, 2.6669356792))
            ThreePointArc((-1.6823475704, 2.6669356792), (-0.8021867035, 2.9905355164), (-0.0180064195, 3.5047935142))
            ThreePointArc((-0.0180064195, 3.5047935142), (0.7857074976, 3.0032423605), (1.6713752888, 2.6669356792))
            ThreePointArc((1.6713752888, 2.6669356792), (0.9236848942, 1.5650264869), (-0.0754025637, 0.6846464292))
            ThreePointArc((-0.0754025637, 0.6846464292), (-0.8346917412, 0.0976318241), (-1.493413885, -0.6003591062))
            ThreePointArc((-1.493413885, -0.6003591062), (-2.5878181499, -2.5867910849), (-3.1287716225, -4.7892901295))
            ThreePointArc((-3.1287716225, -4.7892901295), (-2.9166902037, -4.8546425143), (-2.6948905539, -4.8620166437))
            ThreePointArc((-2.6948905539, -4.8620166437), (-2.1921562258, -4.8005502691), (-1.7028946418, -4.6696189039))
            ThreePointArc((-1.7028946418, -4.6696189039), (-0.8131525819, -4.6406521044), (-0.0018810348, -5.0071469688))
            ThreePointArc((-0.0018810348, -5.0071469688), (1.0414217165, -4.6236408985), (2.139842651, -4.7940198512))
            ThreePointArc((2.139842651, -4.7940198512), (2.4376142075, -4.8751911534), (2.7455222338, -4.8963885003))
        make_face()
    extrude(amount=F2_DEPTH, dir=(0, -1, 0))


solid = f1.part
